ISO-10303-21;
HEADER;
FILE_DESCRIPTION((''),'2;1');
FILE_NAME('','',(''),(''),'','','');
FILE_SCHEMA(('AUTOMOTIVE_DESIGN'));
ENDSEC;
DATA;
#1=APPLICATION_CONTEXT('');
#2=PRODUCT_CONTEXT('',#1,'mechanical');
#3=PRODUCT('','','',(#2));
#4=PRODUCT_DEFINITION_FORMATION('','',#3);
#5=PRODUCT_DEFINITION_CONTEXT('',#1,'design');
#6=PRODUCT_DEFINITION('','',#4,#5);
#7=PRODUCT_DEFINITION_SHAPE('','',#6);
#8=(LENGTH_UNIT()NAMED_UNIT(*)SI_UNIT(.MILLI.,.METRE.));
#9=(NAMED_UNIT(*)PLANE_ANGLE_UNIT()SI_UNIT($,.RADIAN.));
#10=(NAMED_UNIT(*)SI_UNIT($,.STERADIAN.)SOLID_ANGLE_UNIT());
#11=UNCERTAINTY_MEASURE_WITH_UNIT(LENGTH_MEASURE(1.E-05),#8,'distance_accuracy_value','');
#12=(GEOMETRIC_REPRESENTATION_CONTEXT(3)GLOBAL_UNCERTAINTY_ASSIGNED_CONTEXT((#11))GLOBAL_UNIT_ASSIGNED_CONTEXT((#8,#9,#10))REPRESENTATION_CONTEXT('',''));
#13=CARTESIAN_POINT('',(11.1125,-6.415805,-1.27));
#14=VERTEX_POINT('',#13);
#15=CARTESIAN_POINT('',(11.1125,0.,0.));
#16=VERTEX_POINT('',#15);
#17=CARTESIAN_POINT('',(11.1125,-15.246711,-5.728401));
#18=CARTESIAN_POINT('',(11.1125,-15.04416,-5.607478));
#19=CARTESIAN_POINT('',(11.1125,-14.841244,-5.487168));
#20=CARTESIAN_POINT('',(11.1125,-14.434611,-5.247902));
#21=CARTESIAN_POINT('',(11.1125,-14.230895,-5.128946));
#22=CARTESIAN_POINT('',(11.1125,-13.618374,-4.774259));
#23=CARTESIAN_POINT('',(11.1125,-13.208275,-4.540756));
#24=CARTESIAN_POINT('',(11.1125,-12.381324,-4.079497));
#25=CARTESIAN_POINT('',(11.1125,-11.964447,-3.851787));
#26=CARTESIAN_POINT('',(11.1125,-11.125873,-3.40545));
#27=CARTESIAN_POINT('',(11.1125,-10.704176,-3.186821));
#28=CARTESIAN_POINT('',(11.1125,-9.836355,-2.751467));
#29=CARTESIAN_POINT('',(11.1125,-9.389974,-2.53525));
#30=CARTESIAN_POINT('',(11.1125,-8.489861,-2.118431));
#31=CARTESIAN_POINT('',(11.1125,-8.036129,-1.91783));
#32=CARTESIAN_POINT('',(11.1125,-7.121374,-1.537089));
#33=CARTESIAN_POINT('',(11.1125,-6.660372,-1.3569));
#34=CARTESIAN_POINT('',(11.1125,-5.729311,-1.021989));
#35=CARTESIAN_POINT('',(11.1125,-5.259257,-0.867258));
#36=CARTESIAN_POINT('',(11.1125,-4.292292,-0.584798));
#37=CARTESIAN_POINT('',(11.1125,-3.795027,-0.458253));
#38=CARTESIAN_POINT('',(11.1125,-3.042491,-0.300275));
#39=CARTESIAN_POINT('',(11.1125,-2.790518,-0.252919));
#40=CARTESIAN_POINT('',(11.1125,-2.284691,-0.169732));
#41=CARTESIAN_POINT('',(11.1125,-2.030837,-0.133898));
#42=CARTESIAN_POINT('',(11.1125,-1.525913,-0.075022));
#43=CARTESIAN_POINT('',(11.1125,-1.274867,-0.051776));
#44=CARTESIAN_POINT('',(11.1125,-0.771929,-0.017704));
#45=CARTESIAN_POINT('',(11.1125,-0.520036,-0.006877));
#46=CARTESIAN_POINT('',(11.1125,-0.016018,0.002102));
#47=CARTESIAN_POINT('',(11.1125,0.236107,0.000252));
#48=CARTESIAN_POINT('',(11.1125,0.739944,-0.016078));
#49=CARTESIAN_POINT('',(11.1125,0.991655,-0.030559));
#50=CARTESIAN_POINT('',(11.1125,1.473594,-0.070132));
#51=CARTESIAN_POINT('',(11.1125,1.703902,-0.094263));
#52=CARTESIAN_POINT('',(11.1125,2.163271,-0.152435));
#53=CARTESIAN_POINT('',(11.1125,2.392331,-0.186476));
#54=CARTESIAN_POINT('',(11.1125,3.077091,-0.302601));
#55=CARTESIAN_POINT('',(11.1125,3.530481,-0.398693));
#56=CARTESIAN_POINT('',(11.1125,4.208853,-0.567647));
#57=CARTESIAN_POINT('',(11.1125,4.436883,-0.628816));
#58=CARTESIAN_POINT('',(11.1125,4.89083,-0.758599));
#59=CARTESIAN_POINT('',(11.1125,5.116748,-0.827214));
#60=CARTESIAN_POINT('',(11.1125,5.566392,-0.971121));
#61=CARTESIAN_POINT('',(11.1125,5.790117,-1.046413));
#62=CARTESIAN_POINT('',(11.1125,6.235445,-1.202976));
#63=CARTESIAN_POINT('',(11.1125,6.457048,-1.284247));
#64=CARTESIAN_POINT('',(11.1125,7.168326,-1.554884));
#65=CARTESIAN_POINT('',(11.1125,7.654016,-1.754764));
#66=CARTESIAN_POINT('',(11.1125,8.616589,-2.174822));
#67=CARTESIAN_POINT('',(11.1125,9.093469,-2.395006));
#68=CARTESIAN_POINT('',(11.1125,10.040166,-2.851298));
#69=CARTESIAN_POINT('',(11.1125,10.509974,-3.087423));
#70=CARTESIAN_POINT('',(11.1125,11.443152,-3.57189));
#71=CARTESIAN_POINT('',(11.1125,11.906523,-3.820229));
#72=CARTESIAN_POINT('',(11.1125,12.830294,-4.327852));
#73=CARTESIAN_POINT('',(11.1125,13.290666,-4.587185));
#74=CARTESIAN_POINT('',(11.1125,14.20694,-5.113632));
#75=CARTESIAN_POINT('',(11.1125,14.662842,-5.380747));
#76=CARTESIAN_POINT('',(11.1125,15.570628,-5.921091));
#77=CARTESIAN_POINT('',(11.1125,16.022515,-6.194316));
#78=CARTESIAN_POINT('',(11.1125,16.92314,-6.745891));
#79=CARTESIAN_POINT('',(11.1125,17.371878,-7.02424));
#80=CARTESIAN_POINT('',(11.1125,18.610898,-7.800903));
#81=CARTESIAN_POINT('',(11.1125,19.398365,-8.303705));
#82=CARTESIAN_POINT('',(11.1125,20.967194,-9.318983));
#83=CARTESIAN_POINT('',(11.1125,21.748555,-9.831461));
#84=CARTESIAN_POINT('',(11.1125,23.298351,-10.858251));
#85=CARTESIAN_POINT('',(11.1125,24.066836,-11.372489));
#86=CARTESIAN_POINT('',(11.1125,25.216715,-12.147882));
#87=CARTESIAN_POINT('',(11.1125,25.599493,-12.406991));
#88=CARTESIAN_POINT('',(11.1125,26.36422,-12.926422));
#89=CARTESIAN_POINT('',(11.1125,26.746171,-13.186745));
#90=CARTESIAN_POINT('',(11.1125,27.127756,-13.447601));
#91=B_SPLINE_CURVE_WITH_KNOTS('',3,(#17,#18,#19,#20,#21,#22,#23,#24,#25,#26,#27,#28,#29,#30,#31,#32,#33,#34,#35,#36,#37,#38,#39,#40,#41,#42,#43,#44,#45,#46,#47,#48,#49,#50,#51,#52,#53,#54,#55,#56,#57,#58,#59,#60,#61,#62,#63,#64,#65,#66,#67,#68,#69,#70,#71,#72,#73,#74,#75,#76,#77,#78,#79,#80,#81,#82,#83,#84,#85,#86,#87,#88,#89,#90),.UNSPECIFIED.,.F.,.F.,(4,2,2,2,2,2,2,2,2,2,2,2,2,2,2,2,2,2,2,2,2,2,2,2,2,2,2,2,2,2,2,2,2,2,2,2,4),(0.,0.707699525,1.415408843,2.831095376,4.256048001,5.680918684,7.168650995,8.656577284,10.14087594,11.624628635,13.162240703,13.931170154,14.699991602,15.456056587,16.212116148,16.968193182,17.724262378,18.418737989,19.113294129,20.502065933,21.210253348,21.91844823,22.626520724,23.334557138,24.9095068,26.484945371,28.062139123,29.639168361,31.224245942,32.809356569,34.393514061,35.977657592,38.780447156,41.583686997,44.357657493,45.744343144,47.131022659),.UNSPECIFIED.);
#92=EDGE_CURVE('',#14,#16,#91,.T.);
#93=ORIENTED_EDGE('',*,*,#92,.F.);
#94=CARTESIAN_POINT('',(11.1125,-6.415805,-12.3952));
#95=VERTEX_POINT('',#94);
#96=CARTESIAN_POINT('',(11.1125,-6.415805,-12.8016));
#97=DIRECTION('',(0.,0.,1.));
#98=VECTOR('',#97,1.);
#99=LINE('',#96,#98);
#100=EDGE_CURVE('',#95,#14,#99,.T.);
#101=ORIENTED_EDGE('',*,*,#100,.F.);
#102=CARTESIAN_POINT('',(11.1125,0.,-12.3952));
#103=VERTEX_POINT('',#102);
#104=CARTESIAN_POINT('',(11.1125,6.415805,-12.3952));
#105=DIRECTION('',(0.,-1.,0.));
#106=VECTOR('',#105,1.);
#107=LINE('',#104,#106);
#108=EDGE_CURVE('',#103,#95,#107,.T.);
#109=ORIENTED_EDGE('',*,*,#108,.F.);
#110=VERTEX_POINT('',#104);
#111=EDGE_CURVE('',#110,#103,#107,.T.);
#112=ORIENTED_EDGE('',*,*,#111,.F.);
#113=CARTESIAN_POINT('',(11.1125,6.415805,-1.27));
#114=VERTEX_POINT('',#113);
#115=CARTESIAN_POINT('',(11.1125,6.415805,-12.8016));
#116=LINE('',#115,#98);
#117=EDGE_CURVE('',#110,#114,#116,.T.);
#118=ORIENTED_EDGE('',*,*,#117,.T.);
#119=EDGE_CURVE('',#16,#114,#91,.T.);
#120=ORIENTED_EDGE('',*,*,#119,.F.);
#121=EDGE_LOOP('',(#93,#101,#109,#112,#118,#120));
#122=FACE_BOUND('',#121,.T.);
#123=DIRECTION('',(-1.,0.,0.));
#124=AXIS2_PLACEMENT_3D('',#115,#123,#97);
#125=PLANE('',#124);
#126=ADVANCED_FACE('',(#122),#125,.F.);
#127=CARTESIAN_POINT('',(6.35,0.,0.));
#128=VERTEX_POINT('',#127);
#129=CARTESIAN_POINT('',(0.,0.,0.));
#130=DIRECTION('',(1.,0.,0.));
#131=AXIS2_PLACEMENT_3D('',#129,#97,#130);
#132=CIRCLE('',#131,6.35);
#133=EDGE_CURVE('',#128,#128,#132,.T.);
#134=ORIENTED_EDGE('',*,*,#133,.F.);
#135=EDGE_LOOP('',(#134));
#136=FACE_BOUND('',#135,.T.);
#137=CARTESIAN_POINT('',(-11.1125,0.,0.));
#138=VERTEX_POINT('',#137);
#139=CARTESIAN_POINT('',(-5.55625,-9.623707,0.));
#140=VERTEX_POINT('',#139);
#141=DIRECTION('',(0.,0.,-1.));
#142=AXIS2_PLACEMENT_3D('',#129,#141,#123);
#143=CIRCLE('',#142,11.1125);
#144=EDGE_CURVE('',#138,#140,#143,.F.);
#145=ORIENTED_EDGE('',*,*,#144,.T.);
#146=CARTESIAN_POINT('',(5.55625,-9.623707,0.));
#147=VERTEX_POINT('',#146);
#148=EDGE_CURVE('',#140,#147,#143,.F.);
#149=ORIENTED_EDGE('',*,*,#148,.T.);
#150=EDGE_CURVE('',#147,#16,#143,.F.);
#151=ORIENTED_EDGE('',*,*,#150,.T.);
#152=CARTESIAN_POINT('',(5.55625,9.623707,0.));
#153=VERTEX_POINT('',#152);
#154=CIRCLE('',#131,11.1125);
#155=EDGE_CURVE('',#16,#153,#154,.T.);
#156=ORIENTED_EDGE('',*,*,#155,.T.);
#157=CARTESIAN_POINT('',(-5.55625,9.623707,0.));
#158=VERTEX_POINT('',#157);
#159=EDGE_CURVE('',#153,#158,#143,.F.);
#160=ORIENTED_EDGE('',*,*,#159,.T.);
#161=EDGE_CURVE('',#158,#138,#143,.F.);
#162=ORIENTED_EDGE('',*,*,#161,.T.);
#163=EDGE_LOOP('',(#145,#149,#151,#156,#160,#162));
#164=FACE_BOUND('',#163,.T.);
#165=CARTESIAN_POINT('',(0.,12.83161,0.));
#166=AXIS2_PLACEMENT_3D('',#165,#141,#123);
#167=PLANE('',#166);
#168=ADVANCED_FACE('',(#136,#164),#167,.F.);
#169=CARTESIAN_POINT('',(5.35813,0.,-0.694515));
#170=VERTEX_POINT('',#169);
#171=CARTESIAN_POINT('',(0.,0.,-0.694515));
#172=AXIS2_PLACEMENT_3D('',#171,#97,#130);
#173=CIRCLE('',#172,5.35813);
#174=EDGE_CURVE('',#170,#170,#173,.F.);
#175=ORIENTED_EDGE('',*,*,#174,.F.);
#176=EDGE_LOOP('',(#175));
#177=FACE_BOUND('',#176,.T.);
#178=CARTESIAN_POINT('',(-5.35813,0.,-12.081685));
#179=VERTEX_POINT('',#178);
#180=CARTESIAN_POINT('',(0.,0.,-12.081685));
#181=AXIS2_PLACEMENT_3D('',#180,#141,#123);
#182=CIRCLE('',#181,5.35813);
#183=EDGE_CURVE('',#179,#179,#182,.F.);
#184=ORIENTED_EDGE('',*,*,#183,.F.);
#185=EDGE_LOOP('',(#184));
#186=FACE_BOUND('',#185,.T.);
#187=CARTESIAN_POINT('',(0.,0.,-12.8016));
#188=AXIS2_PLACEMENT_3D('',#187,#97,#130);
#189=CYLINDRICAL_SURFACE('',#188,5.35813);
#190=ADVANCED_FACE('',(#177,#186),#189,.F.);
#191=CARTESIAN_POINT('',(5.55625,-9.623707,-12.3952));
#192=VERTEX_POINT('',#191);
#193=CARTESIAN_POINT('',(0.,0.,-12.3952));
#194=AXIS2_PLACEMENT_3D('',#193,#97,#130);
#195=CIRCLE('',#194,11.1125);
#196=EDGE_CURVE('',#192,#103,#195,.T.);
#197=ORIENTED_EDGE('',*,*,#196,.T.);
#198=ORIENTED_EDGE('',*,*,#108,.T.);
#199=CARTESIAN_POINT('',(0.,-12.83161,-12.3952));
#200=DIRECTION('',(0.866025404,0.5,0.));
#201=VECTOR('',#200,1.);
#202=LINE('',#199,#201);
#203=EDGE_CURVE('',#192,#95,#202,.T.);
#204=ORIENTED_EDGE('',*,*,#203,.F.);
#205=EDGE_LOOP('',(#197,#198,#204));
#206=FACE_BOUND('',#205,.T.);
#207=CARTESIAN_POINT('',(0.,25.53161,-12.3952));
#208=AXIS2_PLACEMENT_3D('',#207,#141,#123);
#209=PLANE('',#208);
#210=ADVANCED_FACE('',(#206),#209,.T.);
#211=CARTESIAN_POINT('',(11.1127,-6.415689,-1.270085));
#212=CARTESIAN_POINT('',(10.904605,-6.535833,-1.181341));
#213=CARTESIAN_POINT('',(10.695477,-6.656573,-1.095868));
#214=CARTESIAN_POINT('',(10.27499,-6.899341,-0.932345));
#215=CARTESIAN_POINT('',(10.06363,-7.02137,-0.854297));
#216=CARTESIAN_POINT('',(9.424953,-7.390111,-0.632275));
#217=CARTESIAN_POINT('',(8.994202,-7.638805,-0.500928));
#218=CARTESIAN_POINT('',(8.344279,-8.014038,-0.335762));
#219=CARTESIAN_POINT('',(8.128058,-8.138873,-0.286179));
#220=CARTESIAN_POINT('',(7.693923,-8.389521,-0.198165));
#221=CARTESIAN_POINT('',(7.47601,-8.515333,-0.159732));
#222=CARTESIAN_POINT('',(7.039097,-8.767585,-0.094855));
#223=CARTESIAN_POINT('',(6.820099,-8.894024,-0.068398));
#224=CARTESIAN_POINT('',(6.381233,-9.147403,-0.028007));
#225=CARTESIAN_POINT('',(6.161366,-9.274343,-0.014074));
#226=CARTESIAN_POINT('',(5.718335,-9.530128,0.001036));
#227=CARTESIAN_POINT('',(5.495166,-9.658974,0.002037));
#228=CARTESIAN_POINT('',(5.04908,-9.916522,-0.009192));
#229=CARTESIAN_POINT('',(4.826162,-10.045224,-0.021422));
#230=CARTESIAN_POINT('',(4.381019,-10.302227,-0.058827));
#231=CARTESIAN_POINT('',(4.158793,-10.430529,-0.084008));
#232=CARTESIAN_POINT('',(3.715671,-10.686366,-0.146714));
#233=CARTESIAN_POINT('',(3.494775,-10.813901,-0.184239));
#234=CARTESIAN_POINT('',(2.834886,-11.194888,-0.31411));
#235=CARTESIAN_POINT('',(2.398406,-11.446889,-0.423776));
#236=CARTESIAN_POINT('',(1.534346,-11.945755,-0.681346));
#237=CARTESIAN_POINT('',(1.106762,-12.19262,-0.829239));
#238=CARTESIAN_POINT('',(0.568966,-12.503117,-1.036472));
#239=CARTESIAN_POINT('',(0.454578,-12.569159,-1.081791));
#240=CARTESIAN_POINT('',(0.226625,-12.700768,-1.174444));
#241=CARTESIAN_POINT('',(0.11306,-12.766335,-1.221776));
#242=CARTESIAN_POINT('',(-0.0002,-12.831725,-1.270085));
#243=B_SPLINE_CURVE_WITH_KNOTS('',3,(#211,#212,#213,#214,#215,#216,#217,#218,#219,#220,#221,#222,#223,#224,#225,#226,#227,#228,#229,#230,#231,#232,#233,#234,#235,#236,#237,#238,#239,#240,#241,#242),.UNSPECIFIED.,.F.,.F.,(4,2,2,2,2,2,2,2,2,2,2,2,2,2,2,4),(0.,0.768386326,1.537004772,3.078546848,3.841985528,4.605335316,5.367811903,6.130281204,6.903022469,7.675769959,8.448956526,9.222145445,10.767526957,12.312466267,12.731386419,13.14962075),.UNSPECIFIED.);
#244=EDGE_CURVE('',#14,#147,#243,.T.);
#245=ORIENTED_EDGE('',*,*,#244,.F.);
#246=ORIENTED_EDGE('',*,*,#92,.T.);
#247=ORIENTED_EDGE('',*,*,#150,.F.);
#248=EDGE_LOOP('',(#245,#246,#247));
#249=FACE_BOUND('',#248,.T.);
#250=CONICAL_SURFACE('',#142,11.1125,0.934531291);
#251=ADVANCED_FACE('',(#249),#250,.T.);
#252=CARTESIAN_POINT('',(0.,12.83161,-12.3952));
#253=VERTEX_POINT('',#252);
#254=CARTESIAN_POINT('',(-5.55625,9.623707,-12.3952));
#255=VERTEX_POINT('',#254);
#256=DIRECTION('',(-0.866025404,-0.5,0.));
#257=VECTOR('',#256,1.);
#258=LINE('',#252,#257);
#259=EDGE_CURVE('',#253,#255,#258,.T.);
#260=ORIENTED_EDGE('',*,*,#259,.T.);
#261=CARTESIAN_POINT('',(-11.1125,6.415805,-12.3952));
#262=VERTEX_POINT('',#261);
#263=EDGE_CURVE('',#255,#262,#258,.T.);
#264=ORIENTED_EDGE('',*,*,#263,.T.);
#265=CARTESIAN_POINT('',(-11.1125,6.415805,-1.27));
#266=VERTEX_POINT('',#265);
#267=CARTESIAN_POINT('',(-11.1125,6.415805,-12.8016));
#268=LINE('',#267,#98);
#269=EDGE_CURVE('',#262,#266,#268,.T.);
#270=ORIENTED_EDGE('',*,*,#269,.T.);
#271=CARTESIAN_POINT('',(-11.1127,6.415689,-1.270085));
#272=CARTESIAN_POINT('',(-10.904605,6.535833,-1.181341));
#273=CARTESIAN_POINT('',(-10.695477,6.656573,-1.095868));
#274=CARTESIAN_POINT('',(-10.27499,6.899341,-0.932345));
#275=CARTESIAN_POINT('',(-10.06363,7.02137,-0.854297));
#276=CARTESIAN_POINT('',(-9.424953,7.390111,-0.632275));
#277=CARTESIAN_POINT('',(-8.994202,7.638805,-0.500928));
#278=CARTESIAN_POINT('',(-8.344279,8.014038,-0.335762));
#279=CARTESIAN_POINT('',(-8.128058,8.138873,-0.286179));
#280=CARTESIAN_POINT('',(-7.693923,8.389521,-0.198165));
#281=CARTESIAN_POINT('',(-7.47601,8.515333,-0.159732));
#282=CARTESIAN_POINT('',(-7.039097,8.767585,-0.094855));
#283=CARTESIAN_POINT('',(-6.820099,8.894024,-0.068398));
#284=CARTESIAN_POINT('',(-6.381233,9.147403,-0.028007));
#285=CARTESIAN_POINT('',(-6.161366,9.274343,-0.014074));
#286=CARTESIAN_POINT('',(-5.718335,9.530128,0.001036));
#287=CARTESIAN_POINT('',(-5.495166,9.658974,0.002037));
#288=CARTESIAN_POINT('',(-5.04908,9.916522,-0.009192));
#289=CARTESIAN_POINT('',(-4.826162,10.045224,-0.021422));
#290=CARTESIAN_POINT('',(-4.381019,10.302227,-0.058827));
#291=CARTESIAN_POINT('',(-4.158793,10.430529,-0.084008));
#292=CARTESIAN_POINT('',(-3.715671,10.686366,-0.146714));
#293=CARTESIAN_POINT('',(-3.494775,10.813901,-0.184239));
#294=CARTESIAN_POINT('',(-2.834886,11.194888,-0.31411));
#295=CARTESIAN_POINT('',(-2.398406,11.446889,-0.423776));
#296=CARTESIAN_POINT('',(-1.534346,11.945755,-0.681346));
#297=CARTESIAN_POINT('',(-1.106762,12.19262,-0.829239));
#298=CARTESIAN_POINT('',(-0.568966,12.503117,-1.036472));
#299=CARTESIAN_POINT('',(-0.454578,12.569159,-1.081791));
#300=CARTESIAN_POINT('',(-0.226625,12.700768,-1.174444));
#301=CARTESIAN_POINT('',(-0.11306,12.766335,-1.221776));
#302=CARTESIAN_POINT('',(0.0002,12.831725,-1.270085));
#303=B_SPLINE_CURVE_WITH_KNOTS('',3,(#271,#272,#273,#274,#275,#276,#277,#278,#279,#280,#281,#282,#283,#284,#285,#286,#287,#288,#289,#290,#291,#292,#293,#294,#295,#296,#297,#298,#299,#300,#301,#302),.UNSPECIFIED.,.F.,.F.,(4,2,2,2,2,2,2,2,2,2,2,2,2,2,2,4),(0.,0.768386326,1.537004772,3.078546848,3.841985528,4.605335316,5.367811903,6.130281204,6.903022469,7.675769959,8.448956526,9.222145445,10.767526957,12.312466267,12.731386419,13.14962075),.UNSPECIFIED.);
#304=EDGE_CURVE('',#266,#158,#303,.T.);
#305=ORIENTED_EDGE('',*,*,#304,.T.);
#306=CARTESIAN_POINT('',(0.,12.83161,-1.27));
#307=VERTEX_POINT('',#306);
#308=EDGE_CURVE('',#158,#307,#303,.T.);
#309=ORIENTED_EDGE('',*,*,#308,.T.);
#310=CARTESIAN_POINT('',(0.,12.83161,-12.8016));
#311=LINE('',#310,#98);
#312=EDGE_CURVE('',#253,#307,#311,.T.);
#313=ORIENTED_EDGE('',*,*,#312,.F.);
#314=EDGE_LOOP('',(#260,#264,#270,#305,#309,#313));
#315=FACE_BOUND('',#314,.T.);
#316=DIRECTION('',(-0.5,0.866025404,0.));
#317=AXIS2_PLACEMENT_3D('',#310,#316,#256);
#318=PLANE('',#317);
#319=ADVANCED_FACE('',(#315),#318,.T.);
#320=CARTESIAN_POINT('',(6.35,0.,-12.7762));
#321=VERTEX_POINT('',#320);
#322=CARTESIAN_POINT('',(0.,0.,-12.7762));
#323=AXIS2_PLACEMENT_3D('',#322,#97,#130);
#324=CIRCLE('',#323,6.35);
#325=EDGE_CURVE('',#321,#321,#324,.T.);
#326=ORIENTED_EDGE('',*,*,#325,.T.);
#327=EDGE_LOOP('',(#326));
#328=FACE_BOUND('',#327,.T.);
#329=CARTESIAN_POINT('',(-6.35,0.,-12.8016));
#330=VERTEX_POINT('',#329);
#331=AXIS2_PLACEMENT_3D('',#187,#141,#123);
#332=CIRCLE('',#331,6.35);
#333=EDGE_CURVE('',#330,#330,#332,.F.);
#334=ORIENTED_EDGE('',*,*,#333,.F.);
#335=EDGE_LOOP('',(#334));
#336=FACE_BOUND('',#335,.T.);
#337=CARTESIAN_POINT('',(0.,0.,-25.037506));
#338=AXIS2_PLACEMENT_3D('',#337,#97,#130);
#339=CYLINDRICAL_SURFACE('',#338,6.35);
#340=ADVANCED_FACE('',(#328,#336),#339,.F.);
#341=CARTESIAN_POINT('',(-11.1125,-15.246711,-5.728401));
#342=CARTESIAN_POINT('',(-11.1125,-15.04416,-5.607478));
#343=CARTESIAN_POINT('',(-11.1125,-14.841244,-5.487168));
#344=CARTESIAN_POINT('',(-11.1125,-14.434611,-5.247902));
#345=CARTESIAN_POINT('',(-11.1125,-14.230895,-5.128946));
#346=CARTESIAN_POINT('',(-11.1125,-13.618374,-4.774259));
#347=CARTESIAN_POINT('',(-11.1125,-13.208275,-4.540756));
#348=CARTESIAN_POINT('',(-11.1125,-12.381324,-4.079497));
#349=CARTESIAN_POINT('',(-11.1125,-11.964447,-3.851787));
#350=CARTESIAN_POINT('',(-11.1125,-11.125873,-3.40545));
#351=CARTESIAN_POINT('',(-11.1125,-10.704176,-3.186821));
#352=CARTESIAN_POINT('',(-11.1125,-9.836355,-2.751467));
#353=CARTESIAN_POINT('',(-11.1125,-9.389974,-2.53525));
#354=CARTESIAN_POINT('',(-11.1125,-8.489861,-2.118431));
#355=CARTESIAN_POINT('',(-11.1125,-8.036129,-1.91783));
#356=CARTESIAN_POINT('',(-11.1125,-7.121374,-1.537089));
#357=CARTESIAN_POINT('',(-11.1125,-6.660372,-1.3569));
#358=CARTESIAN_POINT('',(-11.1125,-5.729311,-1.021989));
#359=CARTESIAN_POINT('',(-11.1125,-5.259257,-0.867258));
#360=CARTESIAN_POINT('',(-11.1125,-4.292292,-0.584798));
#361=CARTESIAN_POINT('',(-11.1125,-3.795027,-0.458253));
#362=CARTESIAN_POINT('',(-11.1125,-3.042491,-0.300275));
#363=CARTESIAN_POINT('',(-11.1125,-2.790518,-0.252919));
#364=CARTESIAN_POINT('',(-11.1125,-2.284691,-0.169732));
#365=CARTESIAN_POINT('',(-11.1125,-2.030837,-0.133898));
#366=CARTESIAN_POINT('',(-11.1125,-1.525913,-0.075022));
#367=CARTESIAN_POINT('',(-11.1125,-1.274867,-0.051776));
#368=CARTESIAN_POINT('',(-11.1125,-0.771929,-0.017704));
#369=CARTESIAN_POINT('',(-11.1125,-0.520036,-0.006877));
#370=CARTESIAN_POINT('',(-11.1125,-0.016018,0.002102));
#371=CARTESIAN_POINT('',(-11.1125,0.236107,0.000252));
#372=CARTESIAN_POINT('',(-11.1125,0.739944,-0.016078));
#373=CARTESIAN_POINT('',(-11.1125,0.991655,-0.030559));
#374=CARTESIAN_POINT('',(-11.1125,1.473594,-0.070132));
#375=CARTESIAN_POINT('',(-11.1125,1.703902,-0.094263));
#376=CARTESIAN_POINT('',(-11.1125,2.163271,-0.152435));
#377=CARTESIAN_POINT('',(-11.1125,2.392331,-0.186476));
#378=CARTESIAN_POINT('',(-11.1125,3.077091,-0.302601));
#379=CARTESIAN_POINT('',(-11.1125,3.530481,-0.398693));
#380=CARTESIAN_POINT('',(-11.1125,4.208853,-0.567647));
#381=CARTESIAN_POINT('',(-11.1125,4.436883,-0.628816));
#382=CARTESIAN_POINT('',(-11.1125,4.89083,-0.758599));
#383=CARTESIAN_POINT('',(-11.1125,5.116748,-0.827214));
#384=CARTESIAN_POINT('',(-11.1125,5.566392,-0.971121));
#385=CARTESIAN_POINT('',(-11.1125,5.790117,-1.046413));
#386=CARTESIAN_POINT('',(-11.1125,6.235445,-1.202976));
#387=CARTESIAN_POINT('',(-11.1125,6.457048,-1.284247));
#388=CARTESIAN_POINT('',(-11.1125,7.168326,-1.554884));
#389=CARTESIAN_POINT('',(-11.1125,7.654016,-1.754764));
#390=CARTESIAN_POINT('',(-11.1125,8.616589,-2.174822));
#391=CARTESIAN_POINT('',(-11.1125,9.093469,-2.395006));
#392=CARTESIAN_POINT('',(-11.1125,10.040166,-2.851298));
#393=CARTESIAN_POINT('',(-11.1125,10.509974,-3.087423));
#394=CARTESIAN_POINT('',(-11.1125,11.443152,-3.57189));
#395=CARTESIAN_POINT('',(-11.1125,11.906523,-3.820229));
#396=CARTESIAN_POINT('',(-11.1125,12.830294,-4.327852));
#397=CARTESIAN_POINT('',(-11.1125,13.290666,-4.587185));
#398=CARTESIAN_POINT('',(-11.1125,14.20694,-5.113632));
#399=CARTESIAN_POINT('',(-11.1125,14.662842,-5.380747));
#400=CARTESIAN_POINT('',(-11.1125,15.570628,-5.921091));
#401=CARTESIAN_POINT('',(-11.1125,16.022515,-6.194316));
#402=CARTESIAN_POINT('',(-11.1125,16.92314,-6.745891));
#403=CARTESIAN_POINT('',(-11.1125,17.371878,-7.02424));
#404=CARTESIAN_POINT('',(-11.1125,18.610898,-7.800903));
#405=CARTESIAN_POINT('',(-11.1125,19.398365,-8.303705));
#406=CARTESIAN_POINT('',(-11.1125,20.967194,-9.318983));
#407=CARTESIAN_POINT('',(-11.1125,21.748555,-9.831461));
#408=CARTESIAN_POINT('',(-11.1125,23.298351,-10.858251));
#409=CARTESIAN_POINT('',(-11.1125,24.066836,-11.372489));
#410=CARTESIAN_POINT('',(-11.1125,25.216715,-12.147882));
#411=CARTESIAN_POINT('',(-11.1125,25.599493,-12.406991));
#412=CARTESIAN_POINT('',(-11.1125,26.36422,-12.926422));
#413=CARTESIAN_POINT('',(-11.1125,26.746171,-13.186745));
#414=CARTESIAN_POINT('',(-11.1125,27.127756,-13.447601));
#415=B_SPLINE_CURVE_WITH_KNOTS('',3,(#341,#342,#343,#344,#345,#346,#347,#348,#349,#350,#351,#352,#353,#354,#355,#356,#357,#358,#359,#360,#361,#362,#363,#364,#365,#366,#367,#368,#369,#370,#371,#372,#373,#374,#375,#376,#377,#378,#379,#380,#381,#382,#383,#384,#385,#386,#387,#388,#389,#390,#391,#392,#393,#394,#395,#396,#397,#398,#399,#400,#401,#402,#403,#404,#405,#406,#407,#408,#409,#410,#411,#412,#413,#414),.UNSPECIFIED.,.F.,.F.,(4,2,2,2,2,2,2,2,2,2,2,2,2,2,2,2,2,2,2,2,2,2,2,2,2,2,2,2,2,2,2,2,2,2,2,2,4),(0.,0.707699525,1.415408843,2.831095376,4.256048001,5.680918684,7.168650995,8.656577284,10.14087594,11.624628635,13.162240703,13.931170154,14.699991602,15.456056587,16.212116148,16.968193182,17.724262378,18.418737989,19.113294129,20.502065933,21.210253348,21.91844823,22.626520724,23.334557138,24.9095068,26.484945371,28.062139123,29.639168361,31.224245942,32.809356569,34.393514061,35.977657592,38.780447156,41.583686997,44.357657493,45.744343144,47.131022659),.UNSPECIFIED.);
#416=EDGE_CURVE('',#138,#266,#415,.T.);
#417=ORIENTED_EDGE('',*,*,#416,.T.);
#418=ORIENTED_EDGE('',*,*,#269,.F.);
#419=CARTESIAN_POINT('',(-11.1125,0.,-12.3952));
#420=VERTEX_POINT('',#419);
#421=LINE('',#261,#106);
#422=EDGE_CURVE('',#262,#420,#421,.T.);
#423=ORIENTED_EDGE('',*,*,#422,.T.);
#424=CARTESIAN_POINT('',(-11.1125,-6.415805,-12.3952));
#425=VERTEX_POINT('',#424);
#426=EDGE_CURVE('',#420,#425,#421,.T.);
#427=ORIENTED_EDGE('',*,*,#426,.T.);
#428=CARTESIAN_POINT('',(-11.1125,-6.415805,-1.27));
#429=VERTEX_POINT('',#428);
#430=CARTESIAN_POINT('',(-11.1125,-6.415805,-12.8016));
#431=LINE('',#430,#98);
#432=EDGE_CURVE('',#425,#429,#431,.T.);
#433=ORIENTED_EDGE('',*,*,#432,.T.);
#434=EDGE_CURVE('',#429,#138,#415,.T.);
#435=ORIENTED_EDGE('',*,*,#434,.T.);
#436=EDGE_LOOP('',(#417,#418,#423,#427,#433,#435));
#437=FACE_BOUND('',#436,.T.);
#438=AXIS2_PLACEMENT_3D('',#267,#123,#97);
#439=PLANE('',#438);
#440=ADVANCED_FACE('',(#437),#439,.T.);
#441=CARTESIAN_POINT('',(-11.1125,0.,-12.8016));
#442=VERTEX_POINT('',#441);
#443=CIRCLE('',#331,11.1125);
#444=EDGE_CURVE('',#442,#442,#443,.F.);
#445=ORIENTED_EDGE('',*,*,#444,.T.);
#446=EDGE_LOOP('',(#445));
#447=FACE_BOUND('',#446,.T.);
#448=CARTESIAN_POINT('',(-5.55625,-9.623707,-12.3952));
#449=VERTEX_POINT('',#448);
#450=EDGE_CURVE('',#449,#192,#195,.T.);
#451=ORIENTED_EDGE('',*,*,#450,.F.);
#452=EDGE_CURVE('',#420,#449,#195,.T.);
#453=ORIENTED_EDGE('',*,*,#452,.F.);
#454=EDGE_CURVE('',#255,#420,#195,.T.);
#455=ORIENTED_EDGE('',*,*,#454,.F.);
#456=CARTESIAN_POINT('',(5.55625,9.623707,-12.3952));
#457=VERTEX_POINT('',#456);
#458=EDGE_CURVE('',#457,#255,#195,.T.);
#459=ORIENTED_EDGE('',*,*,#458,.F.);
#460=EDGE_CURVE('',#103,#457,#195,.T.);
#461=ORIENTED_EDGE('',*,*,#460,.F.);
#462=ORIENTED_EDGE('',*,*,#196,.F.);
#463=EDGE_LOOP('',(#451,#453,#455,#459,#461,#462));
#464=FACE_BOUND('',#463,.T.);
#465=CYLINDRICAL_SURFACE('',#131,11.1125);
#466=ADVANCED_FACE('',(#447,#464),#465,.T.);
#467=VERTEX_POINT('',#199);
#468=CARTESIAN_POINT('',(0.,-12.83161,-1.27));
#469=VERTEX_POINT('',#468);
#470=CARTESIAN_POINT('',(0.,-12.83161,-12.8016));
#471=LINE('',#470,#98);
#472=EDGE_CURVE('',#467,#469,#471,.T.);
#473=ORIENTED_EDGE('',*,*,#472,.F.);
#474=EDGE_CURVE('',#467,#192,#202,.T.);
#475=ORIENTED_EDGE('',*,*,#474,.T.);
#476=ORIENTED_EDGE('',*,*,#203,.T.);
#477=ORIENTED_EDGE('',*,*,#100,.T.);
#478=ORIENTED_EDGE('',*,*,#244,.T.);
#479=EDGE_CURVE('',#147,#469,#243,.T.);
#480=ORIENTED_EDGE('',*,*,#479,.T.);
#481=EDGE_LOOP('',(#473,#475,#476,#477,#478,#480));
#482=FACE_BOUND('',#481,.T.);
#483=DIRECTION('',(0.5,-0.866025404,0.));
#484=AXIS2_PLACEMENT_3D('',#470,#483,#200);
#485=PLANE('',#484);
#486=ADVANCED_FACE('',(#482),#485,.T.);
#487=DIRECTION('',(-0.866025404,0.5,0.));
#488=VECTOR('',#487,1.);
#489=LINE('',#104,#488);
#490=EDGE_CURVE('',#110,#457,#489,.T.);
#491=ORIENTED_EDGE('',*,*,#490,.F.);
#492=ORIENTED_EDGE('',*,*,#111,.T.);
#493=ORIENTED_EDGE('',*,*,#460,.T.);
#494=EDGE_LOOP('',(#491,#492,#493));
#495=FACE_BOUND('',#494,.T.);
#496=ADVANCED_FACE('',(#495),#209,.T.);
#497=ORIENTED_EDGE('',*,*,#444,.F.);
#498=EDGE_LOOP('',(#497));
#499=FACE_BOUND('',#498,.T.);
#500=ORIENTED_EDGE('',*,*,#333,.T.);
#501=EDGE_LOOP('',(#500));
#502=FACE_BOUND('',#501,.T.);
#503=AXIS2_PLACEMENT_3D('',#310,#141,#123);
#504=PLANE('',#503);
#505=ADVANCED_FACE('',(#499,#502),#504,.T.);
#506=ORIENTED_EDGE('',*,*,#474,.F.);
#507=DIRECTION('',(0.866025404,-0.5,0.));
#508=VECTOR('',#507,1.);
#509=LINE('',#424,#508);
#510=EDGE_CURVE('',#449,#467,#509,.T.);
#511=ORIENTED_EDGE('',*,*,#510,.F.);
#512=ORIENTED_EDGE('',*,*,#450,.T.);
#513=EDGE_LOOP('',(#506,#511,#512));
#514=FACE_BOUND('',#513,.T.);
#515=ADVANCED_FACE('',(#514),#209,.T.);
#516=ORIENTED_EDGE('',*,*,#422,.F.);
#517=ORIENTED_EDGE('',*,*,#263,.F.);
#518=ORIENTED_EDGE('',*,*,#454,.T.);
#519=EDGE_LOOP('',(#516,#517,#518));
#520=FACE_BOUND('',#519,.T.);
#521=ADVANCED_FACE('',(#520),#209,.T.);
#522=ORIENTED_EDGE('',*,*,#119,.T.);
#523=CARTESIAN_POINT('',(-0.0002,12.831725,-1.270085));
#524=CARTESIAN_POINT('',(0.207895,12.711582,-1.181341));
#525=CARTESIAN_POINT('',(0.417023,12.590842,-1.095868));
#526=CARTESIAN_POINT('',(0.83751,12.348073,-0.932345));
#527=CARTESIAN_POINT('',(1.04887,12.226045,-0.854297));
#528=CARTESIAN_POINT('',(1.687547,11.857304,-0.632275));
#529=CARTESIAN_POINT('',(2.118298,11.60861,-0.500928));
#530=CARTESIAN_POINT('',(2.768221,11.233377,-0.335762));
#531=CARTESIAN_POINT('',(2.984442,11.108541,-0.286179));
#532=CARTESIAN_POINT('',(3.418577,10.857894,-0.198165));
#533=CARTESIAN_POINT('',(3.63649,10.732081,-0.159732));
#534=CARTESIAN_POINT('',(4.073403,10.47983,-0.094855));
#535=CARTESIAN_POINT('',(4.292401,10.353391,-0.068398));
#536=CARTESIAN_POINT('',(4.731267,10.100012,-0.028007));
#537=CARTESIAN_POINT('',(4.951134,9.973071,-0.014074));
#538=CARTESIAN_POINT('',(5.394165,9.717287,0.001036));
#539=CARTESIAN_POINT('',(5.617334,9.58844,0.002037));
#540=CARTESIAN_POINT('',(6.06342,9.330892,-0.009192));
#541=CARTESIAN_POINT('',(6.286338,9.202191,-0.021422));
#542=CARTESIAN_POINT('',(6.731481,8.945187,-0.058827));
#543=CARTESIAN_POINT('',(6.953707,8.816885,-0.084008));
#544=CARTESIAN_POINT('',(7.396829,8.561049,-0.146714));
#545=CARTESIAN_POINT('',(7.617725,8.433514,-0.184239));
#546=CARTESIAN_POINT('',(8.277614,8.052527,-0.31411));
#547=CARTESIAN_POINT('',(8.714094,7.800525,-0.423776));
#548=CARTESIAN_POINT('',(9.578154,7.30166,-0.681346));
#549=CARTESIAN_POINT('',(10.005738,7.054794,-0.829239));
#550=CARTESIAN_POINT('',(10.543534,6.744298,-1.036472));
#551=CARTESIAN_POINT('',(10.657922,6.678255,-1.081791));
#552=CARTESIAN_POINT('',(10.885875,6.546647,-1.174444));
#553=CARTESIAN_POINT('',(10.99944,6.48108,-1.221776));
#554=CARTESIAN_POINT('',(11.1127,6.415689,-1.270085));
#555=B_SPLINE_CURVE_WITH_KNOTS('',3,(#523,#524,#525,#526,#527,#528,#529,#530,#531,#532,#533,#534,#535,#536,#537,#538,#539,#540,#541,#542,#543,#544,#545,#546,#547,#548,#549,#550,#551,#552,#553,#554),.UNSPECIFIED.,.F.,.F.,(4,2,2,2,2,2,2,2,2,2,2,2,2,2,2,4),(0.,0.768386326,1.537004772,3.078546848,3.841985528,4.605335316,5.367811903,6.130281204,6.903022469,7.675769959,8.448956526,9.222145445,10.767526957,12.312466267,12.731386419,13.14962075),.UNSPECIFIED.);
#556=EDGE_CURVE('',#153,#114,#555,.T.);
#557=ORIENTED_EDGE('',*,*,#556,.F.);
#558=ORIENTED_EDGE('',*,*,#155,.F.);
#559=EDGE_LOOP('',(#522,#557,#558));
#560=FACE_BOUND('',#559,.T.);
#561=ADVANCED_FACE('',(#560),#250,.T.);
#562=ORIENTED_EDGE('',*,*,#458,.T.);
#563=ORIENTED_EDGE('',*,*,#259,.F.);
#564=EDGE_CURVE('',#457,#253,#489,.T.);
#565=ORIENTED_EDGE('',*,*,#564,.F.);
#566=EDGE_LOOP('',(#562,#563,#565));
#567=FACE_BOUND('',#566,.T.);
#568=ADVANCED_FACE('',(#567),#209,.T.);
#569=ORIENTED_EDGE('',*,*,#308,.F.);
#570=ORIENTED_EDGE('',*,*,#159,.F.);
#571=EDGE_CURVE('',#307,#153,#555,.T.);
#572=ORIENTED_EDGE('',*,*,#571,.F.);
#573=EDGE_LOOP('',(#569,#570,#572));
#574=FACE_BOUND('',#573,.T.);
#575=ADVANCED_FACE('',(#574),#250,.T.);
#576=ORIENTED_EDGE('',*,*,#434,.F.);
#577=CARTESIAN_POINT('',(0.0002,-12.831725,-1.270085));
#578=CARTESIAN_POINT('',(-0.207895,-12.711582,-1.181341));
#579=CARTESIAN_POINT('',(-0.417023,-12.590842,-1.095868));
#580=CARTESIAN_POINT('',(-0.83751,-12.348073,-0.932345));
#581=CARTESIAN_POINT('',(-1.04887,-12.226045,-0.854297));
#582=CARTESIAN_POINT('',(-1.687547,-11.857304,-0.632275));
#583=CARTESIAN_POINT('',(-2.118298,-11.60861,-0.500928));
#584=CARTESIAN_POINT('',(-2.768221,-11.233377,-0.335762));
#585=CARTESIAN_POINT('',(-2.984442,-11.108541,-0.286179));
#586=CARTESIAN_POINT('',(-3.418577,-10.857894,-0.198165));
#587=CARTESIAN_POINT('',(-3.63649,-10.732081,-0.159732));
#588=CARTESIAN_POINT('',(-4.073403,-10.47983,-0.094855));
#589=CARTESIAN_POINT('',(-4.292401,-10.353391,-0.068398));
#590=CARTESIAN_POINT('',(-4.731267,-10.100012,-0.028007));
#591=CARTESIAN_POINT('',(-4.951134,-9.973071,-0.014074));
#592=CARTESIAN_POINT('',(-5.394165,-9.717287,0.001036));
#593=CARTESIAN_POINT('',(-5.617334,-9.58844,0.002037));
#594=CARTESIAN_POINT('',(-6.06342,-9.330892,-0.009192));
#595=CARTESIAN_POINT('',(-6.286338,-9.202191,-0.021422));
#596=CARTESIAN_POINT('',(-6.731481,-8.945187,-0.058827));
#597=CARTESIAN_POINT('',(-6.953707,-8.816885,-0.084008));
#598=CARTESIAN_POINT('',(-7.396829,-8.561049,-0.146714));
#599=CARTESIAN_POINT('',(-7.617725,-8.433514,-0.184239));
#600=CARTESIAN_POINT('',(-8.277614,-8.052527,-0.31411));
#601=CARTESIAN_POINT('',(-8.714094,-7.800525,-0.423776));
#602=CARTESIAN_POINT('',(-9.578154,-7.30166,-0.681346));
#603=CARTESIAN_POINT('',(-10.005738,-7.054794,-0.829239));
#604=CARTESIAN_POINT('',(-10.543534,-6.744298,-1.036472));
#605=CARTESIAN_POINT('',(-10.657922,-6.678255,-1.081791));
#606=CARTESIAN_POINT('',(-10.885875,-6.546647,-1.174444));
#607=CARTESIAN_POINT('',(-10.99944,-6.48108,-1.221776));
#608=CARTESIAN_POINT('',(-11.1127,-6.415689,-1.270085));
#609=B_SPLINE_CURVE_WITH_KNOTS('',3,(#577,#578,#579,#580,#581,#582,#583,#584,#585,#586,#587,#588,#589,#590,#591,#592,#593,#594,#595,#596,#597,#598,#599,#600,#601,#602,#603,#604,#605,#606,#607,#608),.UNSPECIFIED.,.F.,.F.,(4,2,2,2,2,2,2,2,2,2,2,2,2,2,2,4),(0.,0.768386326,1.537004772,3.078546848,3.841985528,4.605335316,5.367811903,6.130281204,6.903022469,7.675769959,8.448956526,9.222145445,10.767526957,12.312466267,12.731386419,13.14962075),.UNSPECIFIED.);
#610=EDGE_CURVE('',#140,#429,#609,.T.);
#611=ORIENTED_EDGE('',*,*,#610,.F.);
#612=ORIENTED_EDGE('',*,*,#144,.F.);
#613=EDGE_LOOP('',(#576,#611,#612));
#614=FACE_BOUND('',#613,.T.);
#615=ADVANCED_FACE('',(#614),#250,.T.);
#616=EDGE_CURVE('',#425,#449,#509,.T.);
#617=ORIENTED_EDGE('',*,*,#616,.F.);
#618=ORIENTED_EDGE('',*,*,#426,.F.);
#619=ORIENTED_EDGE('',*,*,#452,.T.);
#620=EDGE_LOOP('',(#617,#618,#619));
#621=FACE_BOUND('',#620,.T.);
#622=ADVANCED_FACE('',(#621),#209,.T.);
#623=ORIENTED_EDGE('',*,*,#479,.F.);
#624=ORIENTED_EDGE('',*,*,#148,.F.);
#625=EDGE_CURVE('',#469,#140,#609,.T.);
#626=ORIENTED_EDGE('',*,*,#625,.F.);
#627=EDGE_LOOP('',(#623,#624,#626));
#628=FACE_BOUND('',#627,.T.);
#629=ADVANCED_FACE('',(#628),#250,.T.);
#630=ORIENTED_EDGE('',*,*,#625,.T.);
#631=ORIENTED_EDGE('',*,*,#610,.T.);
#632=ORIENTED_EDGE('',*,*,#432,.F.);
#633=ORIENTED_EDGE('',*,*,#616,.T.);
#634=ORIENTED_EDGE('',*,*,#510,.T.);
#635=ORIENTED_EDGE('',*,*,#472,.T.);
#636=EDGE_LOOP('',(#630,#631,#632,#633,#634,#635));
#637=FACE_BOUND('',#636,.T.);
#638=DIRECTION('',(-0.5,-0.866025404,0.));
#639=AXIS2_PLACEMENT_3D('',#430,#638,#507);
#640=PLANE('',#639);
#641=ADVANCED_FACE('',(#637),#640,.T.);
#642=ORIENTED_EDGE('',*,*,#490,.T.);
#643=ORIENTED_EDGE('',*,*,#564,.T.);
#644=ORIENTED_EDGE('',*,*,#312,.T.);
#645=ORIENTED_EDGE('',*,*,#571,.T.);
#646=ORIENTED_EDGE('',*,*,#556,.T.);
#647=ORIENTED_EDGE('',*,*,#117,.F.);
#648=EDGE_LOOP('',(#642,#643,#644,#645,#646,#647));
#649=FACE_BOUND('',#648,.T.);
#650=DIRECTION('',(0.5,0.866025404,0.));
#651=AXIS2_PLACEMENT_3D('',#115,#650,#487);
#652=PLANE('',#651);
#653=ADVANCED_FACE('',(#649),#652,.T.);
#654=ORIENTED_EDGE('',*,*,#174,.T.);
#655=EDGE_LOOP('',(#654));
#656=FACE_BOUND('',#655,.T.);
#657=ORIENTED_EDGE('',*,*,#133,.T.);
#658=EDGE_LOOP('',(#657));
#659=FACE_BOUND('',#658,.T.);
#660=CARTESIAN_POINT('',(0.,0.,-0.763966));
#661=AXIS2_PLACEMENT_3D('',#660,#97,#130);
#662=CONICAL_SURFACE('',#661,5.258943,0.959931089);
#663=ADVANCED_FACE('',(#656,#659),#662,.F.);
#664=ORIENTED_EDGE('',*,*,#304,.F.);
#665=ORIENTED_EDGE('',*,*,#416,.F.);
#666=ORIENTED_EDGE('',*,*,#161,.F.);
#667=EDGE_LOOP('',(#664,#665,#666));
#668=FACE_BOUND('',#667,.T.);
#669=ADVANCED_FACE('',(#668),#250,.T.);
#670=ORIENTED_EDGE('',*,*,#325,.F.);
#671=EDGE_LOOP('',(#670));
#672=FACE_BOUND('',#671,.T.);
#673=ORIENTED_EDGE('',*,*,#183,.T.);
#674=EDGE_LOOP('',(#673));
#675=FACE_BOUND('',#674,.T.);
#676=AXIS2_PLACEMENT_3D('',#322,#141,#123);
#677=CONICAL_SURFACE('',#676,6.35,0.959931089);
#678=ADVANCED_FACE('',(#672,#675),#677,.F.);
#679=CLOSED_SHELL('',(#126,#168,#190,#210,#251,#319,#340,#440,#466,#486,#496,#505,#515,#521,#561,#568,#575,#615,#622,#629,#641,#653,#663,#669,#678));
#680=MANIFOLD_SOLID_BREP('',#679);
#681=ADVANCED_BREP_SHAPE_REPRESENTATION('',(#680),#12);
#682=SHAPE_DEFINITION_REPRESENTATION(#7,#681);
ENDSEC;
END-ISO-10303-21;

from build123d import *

# Parameters (mm, degrees)
BASENUT_START = -12.8016
BASENUTSKE_R  = 5.35813
BASENUT_DEPTH = 12.8016
SKETCH4_W     = 0.4064
SKETCH4_H     = 14.419109733


with BuildPart() as part:
    # BaseNutSke → BaseNut (new body)
    with BuildSketch(Plane.XY.offset(BASENUT_START)):
        Polygon((11.1125, 6.415804866), (11.1125, -6.415804866), (0, -12.831609733), (-11.1125, -6.415804866), (-11.1125, 6.415804866), (0, 12.831609733), align=None)
        Circle(BASENUTSKE_R, mode=Mode.SUBTRACT)
    extrude(amount=BASENUT_DEPTH)

    # Sketch4 → Bearing-Face (revolve, cut)
    with BuildSketch(Plane(origin=(0, 0, 0), x_dir=(0, 0, -1), z_dir=(1, 0, 0)), mode=Mode.PRIVATE) as bearing_face_sk:
        with Locations((12.5984, 18.322054867)):
            Rectangle(SKETCH4_W, SKETCH4_H)
        Polygon((0, 11.1125), (-12.7, 11.1125), (-12.7, 25.531609733), (1.27, 25.531609733), (1.27, 12.831609733), align=None)
    revolve(bearing_face_sk.sketch.rotate(Axis((0, 0, 0), (0, 0, -1)), 270), axis=Axis((0, 0, 0), (0, 0, -1)), mode=Mode.SUBTRACT)

    # Sketch5 → EndChamfer (revolve, cut)
    with BuildSketch(Plane(origin=(0, 0, 0), x_dir=(0, 0, -1), z_dir=(1, 0, 0)), mode=Mode.PRIVATE) as endchamfer_sk:
        Polygon((12.7762, 6.35), (12.012233664, 5.258943), (12.827, 5.258943), (12.827, 6.35), align=None)
        Polygon((-0.0508, 6.35), (0, 6.35), (0.763966336, 5.258943), (-0.0508, 5.258943), align=None)
    revolve(endchamfer_sk.sketch.rotate(Axis((0, 0, -25.037505729), (0, 0, -1)), 90), axis=Axis((0, 0, -25.037505729), (0, 0, -1)), mode=Mode.SUBTRACT)


solid = part.part
